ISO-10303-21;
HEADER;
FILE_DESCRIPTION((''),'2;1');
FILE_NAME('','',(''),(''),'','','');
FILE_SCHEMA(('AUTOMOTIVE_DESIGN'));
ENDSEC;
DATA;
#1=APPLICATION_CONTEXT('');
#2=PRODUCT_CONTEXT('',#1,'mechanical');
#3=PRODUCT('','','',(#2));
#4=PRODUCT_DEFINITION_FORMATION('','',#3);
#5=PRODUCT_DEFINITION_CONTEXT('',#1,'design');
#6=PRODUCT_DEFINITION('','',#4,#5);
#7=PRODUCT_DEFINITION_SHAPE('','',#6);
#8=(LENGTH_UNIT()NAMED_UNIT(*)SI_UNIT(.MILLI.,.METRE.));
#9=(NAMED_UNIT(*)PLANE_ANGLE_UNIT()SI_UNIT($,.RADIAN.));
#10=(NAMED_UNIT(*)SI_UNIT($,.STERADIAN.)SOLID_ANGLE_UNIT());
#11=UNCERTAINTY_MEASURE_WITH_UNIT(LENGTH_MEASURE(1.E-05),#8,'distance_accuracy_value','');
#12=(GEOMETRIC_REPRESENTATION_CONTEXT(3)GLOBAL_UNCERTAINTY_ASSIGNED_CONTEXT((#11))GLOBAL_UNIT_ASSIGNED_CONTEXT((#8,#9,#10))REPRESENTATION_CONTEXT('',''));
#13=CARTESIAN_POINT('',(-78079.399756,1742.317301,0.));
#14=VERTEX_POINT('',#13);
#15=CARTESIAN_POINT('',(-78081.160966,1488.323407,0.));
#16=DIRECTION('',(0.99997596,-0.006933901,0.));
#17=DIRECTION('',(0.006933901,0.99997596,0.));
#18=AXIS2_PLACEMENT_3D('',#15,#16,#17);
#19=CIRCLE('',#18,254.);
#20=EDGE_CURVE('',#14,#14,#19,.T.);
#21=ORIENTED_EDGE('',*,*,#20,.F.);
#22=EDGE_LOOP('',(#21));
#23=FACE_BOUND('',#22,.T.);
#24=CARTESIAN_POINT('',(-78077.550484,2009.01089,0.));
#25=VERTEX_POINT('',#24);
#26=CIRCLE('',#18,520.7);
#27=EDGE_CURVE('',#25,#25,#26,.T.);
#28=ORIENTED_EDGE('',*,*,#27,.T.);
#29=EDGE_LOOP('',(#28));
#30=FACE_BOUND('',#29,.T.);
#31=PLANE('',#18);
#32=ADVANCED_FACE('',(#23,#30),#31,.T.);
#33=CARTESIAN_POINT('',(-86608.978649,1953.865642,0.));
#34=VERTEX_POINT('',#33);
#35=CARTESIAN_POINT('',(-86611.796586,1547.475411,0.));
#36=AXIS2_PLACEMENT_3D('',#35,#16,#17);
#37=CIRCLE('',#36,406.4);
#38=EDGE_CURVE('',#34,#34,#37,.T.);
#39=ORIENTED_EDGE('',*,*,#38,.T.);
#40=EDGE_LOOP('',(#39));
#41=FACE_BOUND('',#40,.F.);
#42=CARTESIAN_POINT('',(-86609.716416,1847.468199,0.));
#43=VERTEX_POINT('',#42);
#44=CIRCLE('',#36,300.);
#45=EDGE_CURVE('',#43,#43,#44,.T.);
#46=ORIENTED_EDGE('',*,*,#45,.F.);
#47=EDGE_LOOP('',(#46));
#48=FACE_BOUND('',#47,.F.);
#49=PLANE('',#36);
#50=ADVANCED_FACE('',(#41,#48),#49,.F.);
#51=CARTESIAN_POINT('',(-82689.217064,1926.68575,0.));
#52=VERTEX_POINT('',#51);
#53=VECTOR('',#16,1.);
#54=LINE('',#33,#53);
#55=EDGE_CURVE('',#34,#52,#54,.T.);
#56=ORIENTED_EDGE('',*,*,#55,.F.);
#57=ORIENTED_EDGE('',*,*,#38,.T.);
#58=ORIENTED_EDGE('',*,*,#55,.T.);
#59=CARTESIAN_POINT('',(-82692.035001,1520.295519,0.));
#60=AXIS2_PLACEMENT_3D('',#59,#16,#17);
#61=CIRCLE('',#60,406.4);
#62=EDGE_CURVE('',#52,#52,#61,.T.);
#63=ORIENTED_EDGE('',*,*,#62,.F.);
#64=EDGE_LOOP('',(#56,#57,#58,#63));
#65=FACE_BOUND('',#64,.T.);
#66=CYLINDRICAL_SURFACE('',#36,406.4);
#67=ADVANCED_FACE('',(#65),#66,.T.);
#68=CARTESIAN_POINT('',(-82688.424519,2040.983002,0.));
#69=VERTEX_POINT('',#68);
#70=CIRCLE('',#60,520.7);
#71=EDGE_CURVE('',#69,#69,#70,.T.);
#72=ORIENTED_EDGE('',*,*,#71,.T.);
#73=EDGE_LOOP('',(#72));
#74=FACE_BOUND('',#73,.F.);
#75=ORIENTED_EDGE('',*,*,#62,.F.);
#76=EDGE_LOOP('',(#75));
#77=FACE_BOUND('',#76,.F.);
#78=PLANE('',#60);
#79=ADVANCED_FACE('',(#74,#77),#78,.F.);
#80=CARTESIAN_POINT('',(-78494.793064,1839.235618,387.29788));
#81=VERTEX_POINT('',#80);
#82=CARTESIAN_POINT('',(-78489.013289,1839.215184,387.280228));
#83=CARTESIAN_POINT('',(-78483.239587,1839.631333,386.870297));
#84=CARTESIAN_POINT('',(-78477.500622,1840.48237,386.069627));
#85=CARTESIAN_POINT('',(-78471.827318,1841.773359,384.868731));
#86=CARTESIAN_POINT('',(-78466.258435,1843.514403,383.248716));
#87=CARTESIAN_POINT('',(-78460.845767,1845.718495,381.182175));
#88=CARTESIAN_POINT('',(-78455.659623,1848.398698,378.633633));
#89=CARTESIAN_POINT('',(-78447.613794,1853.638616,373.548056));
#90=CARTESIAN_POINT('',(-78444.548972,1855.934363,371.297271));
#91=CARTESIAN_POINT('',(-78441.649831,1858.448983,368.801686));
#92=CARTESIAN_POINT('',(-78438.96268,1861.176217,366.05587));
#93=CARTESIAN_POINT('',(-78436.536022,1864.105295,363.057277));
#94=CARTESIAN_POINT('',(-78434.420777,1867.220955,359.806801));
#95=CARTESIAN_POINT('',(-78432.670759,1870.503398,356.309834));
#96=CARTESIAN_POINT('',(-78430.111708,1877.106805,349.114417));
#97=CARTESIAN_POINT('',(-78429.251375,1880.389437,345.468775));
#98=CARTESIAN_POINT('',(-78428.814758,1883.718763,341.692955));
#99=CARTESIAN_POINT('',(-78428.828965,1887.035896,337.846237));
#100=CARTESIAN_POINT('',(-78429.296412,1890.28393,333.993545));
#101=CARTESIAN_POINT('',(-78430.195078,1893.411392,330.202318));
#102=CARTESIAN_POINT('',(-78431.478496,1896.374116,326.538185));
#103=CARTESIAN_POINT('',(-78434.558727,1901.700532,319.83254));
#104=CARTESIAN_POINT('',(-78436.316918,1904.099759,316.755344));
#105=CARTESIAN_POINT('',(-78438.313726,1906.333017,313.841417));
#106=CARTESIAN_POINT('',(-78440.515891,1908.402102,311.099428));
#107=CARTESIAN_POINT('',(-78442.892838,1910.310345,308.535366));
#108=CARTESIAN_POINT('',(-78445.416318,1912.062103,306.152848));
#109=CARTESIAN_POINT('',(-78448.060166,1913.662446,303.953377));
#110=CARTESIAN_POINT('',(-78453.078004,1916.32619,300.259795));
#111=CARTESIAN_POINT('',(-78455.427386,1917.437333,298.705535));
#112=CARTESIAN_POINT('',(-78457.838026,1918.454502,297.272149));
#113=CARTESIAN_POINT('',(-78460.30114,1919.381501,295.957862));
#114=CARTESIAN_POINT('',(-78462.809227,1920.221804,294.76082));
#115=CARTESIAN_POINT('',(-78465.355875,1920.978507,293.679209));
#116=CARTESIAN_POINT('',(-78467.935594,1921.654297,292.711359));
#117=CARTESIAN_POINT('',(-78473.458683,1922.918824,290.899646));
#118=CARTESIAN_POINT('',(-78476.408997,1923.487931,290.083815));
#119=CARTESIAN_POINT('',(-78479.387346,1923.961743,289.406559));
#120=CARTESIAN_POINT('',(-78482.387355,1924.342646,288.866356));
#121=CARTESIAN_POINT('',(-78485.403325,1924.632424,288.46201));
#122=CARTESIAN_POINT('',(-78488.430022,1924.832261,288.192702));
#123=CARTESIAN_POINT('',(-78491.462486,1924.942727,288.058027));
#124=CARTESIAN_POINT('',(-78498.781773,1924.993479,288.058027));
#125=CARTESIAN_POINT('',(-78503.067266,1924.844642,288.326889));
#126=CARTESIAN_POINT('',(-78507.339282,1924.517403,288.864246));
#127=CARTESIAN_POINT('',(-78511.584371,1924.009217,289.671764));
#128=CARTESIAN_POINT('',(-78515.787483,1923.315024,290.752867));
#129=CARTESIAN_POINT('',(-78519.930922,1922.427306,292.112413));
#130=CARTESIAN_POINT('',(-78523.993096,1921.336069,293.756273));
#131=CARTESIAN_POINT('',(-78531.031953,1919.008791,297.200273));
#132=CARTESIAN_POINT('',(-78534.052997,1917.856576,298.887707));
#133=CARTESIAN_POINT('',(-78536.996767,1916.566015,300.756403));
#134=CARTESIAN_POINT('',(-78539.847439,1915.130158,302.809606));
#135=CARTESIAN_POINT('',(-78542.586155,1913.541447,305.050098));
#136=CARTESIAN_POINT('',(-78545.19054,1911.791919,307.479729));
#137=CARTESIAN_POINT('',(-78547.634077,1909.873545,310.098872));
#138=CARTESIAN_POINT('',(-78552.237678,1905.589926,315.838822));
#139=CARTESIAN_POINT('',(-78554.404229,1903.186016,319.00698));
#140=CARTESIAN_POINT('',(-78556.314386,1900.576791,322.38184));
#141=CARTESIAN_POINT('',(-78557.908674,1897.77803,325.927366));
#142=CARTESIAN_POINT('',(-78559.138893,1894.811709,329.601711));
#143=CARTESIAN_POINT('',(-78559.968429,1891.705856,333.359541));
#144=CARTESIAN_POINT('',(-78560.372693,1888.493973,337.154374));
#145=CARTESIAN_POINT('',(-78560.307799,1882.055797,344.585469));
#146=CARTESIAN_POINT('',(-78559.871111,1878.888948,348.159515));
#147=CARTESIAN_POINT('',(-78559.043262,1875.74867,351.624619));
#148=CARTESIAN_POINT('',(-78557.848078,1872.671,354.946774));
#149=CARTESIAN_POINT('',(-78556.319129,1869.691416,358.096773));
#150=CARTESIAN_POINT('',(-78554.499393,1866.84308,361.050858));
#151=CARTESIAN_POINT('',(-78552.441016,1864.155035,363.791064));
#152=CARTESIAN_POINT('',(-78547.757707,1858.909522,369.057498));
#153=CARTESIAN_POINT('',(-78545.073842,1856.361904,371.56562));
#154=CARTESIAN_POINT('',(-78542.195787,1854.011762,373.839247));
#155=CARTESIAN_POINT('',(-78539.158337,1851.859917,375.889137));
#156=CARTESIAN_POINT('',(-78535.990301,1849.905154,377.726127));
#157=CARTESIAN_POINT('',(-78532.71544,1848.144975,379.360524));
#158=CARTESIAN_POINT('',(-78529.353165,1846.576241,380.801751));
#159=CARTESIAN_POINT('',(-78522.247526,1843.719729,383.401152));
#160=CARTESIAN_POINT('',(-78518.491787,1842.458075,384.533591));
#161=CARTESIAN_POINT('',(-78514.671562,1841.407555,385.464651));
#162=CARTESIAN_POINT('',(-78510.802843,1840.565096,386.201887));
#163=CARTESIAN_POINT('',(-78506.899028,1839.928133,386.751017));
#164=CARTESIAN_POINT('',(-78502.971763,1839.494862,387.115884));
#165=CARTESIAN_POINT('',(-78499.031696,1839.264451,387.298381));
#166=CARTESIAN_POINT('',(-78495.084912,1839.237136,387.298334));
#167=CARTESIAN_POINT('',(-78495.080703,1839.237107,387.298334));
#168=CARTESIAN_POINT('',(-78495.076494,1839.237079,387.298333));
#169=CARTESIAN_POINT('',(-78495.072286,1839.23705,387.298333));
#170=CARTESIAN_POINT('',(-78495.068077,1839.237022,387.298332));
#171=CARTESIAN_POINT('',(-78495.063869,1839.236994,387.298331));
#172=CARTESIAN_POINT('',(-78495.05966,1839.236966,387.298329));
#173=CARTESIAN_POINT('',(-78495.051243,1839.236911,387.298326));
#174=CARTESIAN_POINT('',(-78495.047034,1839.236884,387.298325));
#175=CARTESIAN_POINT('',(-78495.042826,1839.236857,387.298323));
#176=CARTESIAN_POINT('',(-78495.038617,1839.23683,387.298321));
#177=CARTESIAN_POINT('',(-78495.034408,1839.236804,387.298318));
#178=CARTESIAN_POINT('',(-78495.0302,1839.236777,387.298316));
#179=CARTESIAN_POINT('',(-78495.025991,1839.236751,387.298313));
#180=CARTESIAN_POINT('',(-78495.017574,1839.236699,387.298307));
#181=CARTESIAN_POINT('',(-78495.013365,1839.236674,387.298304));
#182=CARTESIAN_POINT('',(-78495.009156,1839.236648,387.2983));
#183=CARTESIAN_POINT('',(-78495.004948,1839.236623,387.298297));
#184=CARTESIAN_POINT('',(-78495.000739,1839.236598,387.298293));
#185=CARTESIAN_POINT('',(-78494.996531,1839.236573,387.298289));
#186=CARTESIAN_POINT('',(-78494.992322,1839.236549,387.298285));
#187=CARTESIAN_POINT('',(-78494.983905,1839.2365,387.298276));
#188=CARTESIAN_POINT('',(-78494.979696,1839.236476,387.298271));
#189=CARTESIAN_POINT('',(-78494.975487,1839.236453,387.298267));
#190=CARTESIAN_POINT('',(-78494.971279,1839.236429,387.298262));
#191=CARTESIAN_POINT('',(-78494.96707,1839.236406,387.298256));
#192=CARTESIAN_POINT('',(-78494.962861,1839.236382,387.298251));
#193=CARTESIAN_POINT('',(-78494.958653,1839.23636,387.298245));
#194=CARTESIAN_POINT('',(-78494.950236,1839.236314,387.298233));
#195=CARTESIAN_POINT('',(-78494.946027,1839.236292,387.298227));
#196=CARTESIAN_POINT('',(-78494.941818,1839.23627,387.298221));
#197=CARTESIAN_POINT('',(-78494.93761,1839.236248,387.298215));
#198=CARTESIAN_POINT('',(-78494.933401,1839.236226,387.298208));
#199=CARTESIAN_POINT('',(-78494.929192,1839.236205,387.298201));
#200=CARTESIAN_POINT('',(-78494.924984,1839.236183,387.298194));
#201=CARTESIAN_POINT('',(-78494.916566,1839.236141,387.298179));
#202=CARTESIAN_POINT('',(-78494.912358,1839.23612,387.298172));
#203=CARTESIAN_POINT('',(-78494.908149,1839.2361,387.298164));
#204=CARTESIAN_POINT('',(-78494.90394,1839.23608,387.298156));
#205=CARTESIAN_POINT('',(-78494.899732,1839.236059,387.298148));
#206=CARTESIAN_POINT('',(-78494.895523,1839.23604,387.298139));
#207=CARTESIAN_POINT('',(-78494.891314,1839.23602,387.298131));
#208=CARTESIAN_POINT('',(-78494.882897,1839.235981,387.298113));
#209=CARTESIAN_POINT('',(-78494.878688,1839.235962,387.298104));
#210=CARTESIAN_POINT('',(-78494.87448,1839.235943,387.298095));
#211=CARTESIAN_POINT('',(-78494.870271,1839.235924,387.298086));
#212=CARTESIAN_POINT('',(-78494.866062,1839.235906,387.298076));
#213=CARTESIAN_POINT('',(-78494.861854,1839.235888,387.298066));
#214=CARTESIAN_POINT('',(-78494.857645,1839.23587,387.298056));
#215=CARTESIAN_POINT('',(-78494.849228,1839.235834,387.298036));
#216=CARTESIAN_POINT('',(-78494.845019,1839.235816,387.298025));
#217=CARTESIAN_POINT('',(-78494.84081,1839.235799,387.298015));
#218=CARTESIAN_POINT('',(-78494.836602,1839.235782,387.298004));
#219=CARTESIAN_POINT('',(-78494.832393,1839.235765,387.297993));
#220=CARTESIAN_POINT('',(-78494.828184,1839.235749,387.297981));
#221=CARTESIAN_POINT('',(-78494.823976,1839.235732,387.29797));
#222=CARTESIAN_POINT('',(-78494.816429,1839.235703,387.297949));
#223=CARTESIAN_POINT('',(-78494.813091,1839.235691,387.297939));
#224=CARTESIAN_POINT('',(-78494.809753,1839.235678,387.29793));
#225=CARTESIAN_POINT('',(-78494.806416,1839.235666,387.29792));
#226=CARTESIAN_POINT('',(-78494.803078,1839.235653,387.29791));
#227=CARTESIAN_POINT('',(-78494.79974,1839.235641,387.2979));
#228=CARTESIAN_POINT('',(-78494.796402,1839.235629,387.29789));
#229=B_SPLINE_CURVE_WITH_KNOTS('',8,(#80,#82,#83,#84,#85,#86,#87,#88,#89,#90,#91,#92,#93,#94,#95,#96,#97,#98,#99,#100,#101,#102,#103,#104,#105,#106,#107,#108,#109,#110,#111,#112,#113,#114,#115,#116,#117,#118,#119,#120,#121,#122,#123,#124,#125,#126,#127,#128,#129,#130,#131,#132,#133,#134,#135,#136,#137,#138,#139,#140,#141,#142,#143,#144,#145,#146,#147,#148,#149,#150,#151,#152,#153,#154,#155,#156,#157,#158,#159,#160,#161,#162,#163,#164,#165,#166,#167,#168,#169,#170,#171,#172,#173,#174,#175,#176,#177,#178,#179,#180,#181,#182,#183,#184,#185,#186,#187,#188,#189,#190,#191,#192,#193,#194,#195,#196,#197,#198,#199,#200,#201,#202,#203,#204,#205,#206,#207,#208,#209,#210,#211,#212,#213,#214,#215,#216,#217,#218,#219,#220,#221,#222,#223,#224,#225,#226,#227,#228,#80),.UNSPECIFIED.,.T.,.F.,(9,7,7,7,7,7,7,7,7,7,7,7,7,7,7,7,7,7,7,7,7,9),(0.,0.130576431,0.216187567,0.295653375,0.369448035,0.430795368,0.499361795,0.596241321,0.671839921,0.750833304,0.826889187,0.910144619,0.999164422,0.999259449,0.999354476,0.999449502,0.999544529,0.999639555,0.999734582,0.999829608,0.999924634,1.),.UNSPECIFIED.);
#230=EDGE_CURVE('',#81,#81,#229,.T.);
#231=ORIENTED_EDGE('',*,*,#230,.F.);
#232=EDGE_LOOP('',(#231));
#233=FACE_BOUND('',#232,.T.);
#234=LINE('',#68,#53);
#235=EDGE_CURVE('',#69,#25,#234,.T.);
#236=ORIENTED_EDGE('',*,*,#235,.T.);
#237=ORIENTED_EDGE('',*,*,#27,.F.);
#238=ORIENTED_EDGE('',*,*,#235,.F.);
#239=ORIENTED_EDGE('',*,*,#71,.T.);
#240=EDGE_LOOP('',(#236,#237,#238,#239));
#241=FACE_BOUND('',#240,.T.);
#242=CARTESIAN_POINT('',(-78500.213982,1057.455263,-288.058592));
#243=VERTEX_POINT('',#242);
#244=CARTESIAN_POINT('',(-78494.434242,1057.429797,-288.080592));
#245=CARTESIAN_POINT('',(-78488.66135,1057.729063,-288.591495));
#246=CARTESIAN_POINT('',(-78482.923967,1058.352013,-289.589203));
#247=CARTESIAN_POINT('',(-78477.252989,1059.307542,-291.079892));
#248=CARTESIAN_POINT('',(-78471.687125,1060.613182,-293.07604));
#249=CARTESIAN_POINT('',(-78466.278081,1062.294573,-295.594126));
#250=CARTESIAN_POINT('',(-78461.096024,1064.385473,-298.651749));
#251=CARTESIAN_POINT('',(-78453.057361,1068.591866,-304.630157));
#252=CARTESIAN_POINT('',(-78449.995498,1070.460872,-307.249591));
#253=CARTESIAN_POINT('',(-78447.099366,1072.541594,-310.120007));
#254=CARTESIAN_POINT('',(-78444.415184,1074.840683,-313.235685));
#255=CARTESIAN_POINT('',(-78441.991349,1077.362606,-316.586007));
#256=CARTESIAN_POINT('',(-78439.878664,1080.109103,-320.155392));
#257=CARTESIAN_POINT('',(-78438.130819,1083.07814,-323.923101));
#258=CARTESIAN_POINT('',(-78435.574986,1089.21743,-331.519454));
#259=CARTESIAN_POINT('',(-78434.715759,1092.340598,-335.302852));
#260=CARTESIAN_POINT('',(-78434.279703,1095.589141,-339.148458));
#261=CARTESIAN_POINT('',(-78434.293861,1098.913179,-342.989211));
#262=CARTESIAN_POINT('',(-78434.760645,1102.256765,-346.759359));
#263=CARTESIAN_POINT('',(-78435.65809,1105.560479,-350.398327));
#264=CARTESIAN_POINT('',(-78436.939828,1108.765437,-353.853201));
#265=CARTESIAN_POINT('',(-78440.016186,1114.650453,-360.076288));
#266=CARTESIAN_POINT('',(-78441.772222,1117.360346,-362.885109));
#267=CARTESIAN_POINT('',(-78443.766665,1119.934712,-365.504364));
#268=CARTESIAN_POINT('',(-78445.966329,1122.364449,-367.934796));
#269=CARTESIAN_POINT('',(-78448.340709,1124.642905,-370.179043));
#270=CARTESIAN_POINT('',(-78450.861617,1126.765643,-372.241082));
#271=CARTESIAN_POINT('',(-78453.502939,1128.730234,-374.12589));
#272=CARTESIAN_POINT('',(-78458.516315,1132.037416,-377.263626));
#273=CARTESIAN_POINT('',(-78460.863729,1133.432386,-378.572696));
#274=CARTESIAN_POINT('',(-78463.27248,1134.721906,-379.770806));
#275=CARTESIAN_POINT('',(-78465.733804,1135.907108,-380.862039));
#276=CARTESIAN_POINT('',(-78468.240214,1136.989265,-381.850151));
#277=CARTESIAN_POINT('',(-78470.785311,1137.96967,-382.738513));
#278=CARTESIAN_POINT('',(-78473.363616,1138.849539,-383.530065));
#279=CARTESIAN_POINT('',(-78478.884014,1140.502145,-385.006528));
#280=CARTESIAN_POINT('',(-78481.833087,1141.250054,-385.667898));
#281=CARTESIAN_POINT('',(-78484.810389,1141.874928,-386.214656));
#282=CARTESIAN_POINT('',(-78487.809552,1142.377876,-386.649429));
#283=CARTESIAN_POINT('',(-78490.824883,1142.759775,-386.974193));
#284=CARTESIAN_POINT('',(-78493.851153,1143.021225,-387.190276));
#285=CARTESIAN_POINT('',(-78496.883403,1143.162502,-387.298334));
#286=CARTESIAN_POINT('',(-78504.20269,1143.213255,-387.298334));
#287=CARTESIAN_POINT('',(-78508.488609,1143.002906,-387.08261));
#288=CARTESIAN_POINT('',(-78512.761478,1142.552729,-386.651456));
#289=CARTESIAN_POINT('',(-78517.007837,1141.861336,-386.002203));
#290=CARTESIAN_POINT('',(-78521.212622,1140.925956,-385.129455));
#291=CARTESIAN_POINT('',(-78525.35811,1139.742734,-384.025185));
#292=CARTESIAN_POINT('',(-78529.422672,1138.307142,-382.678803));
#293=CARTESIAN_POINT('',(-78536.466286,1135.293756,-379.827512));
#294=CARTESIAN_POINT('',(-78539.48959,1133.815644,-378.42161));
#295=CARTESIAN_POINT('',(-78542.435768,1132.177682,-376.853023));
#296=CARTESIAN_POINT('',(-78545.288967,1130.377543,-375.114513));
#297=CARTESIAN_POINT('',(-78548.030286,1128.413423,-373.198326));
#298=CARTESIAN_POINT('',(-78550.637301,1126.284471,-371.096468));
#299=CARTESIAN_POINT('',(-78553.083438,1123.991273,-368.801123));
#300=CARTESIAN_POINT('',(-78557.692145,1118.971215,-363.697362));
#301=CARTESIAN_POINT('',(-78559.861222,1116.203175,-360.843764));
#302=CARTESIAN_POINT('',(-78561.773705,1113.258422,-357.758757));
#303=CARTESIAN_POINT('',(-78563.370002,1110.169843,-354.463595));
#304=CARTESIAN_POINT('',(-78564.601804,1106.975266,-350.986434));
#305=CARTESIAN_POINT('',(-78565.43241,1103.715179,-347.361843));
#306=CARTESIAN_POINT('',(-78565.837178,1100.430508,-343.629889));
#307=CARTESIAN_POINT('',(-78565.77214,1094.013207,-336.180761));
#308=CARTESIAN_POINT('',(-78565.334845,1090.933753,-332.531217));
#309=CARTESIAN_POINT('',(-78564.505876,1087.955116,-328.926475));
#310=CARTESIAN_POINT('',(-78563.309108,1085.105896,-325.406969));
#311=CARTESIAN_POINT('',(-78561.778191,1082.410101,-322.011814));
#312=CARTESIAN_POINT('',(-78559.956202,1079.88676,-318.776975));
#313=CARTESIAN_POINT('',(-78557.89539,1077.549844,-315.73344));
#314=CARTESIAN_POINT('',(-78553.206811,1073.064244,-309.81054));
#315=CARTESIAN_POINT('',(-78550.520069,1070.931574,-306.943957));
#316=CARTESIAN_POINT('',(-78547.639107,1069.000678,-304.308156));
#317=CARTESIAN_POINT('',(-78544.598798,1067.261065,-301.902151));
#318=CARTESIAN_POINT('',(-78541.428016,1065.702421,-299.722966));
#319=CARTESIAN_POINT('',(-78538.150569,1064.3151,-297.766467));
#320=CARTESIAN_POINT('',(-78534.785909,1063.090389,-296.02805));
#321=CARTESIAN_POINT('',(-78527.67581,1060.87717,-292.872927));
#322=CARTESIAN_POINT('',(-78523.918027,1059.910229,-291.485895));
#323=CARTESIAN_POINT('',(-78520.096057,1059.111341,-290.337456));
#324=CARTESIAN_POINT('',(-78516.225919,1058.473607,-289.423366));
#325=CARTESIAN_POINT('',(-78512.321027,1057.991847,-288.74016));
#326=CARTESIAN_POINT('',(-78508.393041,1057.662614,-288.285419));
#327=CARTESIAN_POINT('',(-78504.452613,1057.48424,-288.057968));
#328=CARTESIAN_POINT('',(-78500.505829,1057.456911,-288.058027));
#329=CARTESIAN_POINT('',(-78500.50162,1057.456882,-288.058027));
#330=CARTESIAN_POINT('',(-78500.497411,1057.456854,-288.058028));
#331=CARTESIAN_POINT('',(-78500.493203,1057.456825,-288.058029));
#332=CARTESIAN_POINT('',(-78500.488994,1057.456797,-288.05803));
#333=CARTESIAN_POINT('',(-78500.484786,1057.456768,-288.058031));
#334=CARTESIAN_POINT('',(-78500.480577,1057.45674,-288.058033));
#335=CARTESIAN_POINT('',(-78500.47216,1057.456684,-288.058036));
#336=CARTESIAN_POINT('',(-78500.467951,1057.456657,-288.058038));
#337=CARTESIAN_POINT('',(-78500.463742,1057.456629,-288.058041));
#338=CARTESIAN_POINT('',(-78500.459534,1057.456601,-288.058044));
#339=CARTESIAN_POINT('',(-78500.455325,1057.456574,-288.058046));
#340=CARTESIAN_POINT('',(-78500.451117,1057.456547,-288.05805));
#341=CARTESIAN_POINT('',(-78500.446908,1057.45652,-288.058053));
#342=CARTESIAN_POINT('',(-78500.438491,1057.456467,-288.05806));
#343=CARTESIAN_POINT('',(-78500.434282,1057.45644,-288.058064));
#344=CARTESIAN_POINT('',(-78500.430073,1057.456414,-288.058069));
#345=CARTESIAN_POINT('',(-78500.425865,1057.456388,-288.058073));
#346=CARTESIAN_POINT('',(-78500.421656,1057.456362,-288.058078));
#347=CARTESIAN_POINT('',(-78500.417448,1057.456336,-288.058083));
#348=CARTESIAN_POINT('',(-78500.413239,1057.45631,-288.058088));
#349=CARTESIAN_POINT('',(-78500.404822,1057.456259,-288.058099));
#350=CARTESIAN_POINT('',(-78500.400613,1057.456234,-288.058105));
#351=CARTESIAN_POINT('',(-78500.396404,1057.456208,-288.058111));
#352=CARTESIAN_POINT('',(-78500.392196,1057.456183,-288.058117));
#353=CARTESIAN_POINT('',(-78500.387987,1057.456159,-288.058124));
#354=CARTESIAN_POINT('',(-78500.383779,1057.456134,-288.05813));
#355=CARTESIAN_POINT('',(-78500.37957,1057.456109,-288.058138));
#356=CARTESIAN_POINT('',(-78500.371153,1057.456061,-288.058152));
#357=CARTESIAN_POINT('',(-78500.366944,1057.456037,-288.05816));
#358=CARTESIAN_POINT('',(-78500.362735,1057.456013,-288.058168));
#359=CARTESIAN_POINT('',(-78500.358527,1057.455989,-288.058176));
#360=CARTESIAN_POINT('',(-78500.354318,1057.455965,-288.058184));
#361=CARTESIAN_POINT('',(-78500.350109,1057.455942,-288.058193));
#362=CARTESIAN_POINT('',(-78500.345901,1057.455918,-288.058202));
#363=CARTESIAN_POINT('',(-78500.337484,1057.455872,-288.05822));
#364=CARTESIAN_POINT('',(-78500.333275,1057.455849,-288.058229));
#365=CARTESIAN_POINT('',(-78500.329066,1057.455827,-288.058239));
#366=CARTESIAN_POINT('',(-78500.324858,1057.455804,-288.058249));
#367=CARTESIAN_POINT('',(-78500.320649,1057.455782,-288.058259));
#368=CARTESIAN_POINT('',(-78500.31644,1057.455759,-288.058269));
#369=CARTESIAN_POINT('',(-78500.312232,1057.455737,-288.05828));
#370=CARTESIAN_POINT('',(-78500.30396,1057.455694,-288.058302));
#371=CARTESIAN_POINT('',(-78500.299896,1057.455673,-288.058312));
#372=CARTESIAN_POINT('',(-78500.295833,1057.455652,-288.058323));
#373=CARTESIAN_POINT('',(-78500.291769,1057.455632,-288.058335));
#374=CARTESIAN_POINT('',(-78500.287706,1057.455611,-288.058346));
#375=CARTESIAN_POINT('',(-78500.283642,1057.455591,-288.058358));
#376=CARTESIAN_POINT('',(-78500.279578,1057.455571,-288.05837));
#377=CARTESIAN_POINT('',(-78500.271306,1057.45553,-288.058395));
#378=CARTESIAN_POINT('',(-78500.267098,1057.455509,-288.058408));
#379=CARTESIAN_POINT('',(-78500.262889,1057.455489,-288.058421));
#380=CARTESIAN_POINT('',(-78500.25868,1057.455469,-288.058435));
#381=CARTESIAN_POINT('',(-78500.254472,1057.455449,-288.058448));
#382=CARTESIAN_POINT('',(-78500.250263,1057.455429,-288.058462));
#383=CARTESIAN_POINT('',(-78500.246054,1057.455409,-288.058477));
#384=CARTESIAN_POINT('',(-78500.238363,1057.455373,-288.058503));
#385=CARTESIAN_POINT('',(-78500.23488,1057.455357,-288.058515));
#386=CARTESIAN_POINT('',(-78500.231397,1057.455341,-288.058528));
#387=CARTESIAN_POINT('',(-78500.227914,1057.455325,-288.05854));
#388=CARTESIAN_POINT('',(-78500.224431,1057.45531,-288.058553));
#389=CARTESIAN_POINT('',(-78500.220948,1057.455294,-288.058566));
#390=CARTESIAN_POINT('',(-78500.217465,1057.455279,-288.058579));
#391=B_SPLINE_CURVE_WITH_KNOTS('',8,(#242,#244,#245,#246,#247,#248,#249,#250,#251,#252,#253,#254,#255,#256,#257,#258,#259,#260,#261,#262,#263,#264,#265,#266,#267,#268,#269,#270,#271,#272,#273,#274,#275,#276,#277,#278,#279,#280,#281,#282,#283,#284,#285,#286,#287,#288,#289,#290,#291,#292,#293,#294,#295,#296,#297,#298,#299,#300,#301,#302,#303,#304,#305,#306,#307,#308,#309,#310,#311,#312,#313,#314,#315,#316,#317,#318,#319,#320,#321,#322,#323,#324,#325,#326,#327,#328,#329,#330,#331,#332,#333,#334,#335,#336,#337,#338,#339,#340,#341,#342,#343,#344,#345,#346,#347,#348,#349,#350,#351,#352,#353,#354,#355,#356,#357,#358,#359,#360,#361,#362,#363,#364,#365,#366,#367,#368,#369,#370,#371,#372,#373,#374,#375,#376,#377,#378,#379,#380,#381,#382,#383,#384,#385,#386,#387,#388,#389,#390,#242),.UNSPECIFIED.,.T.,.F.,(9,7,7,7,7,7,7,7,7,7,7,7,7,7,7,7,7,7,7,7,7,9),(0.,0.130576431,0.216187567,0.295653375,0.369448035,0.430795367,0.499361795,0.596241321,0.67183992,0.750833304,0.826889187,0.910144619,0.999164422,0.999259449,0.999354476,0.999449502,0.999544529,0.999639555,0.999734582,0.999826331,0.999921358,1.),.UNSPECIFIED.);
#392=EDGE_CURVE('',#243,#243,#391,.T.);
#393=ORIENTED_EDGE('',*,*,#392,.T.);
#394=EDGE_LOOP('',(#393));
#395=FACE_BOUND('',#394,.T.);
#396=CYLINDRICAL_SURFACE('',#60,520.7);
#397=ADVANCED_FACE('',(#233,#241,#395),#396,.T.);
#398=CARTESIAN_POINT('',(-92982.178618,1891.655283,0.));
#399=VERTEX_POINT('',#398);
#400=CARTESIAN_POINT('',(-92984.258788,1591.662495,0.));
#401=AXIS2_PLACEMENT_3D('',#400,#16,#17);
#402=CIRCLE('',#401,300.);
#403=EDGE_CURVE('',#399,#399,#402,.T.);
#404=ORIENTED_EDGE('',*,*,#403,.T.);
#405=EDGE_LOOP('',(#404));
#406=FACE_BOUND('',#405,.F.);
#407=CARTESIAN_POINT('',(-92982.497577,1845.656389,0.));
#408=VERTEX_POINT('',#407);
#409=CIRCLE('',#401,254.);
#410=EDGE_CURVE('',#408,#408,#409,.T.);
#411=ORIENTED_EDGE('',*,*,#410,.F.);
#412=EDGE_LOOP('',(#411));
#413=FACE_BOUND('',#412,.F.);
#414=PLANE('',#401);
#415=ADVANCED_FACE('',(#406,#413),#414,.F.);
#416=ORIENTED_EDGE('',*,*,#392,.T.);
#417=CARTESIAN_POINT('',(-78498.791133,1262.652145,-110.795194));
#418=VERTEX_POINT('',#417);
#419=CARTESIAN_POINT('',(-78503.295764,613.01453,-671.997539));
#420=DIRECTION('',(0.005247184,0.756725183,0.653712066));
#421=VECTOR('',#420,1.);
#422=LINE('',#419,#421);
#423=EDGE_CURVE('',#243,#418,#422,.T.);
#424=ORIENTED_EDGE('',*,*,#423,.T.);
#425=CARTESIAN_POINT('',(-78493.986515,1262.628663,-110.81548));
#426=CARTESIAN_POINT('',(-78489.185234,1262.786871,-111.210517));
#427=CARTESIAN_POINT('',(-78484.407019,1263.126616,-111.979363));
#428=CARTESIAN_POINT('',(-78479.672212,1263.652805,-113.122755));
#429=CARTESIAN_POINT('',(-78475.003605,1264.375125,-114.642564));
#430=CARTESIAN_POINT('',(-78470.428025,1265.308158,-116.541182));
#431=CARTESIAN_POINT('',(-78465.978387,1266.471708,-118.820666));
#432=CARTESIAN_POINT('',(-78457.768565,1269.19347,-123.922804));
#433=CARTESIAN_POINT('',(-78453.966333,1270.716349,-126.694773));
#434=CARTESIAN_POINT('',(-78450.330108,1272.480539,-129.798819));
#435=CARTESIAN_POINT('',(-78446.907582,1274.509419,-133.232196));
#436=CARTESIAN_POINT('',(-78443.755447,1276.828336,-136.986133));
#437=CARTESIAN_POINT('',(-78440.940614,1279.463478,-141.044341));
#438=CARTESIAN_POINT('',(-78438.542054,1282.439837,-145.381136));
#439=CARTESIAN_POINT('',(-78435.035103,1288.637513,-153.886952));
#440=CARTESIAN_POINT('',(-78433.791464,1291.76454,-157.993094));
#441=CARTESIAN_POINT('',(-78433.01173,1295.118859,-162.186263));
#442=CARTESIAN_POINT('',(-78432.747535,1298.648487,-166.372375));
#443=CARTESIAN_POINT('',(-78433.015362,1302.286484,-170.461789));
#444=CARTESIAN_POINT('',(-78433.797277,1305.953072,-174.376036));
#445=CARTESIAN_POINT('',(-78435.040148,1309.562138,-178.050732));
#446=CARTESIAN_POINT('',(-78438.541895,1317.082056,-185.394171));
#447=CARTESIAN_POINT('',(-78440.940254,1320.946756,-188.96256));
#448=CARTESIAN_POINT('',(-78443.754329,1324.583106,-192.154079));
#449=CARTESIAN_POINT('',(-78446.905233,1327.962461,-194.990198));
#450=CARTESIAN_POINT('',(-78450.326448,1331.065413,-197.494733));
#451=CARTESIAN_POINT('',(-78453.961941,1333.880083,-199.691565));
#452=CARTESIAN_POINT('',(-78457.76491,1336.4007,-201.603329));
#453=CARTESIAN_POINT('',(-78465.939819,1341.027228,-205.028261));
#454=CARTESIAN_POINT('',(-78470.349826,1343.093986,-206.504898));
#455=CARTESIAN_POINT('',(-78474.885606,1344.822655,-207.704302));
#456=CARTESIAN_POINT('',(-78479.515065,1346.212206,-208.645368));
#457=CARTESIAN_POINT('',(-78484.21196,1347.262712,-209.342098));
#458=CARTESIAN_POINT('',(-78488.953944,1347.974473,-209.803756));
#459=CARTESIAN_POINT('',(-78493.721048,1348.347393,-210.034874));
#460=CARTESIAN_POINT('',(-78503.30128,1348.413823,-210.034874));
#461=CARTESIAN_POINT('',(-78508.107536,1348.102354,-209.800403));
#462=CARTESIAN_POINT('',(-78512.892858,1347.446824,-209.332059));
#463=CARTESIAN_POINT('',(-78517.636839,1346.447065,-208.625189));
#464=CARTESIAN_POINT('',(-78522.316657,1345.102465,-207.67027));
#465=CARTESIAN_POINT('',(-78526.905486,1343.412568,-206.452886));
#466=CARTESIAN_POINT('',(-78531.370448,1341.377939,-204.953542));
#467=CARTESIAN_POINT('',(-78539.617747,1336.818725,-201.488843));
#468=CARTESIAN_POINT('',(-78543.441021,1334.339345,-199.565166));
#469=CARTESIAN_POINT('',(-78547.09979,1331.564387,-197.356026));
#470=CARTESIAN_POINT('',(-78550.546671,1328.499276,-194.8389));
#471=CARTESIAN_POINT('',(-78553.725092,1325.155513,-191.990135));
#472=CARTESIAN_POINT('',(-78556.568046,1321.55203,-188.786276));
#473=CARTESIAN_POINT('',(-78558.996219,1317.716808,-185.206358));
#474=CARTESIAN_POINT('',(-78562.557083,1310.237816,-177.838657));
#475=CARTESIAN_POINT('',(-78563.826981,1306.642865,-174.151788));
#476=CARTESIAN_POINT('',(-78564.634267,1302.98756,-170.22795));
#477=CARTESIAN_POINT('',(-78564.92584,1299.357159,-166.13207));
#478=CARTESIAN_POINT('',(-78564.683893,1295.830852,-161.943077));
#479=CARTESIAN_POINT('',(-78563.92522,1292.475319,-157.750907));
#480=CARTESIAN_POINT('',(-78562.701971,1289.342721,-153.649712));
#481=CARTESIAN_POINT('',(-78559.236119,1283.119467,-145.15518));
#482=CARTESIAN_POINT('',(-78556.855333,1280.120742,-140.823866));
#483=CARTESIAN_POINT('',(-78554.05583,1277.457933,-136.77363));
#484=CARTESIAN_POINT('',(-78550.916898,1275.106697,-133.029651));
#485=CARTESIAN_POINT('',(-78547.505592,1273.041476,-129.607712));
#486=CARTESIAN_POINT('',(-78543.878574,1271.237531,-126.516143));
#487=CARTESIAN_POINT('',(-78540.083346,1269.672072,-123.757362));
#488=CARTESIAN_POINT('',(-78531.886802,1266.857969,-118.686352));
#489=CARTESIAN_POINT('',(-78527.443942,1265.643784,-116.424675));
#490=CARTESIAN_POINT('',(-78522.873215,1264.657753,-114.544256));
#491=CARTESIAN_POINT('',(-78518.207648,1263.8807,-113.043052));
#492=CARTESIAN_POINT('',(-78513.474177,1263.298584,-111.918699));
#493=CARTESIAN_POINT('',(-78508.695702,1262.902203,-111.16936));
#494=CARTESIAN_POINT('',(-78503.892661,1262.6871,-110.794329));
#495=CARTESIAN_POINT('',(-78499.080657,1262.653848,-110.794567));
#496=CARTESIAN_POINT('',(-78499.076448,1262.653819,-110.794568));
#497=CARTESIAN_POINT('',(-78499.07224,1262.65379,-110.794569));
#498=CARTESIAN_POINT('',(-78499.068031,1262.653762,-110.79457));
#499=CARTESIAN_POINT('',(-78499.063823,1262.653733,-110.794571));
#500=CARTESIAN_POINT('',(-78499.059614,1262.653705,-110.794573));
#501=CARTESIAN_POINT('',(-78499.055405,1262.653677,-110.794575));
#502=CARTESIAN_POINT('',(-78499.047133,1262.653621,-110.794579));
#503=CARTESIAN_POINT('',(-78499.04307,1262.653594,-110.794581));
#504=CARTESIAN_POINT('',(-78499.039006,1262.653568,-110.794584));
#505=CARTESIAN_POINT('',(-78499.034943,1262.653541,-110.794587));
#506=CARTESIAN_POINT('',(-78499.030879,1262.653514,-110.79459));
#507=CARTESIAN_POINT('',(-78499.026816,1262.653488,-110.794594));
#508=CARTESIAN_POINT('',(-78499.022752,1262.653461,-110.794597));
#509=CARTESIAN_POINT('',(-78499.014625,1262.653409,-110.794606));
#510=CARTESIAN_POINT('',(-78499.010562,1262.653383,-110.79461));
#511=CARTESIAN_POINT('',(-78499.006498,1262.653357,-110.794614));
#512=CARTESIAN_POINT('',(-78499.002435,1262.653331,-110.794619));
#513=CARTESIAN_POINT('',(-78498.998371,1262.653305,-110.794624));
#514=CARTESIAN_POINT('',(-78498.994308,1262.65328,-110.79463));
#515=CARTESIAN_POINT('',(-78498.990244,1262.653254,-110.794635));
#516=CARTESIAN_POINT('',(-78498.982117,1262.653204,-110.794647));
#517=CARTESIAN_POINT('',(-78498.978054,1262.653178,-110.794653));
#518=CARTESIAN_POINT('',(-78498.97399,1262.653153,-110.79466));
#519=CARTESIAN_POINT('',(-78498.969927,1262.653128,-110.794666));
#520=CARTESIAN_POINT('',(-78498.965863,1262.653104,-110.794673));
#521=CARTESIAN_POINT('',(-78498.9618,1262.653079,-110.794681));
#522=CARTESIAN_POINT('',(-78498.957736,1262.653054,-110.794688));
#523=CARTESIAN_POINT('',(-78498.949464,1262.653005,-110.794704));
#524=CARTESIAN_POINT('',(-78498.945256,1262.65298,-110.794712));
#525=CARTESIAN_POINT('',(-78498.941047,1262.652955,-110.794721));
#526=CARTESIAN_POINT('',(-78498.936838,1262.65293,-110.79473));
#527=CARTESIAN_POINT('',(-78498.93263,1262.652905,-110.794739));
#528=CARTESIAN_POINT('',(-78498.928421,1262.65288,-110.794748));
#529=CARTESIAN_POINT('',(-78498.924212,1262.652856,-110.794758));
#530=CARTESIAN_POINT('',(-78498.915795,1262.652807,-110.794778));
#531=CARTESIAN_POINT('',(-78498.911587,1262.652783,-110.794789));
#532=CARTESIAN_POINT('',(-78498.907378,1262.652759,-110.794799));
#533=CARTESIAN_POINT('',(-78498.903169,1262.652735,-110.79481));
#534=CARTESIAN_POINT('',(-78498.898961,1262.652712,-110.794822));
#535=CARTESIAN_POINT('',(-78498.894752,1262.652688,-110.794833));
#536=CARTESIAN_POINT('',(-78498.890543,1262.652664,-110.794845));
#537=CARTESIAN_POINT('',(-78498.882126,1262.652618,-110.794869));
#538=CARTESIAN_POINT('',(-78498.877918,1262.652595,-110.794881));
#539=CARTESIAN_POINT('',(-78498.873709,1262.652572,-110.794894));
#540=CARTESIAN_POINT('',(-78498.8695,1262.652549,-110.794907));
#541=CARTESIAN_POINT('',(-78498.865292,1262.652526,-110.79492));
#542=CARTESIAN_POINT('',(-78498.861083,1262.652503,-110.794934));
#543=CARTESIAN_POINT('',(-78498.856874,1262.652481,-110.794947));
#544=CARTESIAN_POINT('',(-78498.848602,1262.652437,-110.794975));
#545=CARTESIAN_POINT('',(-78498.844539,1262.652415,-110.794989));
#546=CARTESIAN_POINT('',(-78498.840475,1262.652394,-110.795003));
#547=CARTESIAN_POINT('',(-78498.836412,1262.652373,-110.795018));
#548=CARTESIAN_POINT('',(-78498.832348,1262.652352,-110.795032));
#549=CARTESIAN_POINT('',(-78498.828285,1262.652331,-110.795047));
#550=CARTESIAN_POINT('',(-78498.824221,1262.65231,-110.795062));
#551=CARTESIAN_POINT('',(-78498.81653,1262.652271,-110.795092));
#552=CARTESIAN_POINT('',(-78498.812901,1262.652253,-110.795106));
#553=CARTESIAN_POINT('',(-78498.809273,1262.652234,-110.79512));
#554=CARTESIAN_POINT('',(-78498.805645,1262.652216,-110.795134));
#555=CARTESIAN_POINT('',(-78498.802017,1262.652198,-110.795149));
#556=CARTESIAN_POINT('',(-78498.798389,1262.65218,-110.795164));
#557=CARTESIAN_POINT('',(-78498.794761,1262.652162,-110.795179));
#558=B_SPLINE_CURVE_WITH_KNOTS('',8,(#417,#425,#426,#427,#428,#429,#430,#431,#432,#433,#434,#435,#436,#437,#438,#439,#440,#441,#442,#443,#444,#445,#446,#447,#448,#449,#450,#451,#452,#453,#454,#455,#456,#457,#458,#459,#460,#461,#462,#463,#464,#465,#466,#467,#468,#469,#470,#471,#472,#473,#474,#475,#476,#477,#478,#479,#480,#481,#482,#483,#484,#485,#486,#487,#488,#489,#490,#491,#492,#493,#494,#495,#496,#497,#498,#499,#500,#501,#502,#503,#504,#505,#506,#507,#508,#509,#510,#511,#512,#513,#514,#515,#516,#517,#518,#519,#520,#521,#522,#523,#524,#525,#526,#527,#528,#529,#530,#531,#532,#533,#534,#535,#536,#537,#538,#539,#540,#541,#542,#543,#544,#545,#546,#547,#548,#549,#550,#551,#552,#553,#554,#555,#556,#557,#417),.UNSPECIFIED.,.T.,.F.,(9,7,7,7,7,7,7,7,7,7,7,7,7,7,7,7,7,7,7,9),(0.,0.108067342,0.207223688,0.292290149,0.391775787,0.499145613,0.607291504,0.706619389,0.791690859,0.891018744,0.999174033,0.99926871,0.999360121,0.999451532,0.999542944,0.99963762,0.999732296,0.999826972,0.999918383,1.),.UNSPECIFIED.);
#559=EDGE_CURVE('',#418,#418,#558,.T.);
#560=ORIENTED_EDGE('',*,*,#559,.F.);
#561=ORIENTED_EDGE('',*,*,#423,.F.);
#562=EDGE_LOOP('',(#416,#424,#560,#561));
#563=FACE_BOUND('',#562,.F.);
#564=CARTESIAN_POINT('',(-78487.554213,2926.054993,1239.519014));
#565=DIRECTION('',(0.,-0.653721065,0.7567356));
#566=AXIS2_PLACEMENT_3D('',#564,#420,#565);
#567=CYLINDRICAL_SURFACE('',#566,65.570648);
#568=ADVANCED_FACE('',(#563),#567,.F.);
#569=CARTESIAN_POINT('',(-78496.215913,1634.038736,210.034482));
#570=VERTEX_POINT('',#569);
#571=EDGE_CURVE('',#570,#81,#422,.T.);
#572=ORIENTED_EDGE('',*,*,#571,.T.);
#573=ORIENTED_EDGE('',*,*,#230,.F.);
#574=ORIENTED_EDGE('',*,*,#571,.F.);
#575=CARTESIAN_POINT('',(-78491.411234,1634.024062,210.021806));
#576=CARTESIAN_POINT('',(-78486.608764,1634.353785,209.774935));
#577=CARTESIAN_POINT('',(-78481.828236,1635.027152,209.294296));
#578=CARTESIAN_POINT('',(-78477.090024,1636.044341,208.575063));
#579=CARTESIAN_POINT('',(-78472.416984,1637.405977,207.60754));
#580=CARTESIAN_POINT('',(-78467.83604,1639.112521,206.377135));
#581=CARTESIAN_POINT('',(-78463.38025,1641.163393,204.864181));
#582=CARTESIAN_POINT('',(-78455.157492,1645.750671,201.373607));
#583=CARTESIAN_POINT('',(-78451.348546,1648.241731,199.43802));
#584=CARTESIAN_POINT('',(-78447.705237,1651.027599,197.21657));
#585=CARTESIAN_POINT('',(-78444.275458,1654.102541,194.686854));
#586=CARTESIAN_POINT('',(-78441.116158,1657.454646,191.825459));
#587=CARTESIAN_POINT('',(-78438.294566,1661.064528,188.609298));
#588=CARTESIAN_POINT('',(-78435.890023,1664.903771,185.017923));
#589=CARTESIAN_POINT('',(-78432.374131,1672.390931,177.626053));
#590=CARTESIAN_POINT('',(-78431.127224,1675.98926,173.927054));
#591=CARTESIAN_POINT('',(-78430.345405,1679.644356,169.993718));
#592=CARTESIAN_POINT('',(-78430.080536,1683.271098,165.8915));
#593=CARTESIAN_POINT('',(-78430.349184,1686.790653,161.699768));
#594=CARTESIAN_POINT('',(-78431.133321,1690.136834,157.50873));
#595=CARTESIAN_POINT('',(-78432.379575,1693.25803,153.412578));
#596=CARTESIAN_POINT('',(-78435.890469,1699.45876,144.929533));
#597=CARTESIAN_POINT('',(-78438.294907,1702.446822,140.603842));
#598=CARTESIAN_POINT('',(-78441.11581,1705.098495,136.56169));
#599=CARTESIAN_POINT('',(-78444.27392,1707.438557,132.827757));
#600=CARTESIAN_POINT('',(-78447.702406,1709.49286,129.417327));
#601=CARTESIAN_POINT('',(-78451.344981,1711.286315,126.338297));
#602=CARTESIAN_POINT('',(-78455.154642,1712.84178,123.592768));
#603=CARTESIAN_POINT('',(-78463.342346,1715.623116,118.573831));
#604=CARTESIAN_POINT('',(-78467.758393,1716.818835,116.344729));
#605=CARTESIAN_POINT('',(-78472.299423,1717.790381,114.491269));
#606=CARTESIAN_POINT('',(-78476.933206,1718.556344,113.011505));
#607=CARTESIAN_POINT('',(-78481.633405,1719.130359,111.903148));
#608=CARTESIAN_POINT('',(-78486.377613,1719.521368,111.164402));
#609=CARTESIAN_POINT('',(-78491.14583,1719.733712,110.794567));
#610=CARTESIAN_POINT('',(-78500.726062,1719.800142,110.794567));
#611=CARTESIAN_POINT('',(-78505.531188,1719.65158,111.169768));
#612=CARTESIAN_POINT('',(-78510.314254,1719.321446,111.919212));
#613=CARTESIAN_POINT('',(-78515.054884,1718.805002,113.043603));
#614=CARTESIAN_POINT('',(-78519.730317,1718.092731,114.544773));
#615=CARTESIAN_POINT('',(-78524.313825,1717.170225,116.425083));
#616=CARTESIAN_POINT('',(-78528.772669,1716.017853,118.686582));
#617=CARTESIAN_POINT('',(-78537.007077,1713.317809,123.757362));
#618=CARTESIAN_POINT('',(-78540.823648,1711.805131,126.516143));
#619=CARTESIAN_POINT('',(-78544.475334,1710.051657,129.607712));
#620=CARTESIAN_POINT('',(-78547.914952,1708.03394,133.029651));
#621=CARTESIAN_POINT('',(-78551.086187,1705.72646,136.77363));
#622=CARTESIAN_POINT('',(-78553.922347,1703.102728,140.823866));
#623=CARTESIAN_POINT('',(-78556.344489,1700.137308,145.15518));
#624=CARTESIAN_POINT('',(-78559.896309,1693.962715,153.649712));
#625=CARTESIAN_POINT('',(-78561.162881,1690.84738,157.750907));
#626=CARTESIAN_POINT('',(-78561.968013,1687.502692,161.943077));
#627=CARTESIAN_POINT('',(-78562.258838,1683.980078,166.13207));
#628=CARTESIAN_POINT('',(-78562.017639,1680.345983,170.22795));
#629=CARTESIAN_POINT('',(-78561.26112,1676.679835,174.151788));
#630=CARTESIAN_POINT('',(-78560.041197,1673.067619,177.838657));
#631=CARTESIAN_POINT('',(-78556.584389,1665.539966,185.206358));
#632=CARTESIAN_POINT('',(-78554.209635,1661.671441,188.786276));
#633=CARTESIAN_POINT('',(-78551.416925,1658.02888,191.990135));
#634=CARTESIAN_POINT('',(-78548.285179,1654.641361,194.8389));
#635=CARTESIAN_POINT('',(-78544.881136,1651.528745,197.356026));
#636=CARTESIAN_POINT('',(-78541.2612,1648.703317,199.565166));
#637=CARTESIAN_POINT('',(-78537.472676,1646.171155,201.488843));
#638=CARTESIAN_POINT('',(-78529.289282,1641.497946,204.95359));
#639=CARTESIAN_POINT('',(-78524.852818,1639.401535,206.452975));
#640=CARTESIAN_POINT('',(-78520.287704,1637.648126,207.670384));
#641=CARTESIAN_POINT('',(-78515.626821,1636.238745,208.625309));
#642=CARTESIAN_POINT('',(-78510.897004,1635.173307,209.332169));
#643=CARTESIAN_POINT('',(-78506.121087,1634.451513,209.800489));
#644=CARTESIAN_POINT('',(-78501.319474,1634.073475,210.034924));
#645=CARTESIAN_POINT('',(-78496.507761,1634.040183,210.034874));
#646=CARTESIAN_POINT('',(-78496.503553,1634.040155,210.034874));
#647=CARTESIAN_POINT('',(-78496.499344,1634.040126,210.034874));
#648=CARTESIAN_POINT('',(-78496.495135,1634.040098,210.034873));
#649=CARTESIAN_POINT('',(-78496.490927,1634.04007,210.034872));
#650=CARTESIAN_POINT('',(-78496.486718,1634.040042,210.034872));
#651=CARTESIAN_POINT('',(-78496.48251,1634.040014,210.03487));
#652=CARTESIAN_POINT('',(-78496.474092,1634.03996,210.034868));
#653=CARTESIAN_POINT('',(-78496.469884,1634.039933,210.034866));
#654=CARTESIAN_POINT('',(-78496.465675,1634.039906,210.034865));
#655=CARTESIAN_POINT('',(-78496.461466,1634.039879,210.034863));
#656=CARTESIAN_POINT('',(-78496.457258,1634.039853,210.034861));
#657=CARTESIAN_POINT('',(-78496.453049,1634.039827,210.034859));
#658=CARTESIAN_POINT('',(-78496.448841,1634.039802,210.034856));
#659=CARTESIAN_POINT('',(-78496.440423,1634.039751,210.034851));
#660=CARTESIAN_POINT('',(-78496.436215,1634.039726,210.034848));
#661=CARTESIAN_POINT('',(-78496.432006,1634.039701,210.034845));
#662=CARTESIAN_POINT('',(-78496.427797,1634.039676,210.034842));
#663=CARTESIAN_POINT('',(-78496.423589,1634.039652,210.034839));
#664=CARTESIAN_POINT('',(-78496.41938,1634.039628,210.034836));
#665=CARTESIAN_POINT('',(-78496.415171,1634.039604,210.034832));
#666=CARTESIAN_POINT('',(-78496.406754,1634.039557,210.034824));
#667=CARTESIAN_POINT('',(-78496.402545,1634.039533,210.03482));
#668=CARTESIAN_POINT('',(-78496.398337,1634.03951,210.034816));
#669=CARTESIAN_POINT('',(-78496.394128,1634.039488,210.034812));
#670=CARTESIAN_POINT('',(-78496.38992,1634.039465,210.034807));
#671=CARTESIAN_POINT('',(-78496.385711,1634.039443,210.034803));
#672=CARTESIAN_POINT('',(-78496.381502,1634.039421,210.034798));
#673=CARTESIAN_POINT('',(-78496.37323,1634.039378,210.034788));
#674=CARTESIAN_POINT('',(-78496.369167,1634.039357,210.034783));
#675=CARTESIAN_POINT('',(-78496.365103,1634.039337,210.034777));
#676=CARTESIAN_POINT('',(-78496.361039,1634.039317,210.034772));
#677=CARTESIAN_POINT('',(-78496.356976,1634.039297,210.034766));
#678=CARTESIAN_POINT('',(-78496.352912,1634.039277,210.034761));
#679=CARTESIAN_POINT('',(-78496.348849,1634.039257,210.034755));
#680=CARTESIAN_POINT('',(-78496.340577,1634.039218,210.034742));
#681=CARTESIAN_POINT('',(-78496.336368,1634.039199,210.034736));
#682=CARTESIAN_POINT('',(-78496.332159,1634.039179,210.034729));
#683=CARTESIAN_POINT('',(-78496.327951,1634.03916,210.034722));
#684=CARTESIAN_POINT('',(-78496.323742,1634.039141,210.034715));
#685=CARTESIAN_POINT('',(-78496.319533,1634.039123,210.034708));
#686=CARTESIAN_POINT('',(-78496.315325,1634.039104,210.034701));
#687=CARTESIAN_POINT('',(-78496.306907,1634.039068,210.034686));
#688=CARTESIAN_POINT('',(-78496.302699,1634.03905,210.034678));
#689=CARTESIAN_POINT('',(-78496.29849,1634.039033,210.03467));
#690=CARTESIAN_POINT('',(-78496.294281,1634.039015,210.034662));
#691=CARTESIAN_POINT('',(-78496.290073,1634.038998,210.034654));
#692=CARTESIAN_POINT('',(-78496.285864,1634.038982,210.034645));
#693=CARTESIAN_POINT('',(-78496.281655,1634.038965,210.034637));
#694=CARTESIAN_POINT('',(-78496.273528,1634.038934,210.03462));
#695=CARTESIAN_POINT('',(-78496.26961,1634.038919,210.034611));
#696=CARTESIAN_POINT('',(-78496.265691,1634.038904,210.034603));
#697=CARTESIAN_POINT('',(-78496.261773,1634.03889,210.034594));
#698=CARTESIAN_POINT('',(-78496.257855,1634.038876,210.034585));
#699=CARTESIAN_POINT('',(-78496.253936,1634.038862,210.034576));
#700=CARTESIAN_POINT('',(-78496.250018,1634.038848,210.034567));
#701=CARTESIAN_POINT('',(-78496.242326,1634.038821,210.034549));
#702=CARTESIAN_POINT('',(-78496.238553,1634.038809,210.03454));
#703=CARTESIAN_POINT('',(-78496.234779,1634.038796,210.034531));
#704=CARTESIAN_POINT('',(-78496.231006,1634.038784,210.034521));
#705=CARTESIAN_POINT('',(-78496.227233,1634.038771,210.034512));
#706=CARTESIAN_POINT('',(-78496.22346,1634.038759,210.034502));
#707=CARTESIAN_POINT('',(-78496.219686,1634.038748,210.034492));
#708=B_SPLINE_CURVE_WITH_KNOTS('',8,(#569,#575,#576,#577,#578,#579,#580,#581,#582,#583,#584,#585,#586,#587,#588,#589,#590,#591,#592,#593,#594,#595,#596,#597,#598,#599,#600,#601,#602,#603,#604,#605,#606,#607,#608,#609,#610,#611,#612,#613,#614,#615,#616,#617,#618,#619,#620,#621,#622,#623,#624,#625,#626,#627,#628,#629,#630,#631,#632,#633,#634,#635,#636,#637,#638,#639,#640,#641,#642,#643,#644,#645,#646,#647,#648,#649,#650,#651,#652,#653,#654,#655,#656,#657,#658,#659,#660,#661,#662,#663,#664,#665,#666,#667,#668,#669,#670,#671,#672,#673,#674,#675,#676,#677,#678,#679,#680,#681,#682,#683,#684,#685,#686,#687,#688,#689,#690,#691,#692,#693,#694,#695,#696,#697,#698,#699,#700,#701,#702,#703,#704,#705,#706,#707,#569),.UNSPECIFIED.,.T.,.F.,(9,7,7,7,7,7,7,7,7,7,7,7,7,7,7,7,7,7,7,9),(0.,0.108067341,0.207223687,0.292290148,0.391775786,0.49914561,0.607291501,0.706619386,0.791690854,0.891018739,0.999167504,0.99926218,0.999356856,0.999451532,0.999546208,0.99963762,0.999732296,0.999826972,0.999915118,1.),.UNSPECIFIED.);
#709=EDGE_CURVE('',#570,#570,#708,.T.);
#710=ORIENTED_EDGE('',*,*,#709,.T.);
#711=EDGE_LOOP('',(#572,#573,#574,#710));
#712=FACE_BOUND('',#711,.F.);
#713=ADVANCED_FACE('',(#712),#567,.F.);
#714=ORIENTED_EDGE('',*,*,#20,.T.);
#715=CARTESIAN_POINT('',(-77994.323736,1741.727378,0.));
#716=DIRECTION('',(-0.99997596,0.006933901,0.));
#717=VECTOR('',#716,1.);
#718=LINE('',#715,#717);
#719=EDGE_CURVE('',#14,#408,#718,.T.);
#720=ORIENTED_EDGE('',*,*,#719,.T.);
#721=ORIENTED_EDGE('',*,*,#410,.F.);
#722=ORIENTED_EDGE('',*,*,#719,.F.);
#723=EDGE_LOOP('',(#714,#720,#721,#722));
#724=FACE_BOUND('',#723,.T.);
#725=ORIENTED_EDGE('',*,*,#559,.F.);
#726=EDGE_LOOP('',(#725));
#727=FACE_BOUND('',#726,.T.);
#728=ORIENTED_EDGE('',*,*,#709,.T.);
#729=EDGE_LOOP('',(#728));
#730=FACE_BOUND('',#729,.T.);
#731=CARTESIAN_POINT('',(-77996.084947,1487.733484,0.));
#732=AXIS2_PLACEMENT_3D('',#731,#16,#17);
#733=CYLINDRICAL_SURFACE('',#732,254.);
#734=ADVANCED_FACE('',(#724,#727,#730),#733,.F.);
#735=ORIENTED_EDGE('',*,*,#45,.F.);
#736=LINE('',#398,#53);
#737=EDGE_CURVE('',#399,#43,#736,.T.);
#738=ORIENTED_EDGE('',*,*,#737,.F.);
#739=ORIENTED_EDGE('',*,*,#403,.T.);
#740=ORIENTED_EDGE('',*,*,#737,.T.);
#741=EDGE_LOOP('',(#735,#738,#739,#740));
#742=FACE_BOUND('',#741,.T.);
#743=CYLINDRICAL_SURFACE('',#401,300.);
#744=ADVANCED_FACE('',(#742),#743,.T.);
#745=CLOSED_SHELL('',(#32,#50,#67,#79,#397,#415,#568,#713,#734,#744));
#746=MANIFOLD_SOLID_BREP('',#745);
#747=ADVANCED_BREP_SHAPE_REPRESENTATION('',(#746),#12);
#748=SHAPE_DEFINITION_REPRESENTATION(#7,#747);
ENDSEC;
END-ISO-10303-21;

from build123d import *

# Parameters (mm, degrees)
SWEEP1_PROFILE_R        = 300
SWEEP2_PROFILE_R        = 406.4
SWEEP3_PROFILE_R        = 520.7
SKETCH96_R              = 65.57064834
CUT_EXTRUDE1_DEPTH      = 3000
CUT_EXTRUDE2_DEPTH      = 14988.534162474
CUT_EXTRUDE2_DEPTH_BACK = 14988.534162474
SKETCH97_R              = 254


with BuildPart() as part:
    # Sweep1: sweep along a path in Sketch1
    with BuildLine(Plane.XY) as sweep1_path:
        Line((-92984.258788215, 1591.662495116), (-78081.160966393, 1488.323407048))
    # Sweep1 profile (on start of the path) → Sweep1 (sweep)
    with BuildSketch(Plane(origin=(-92984.258788215, 1591.662495116, 0), x_dir=(0.00693390092814686, 0.9999759602200039, 0), z_dir=(0.9999759602200039, -0.00693390092814686, 0))):
        Circle(SWEEP1_PROFILE_R)
    sweep(path=sweep1_path.line)

    # Sweep2: sweep along a path in Sketch18
    with BuildLine(Plane.XY) as sweep2_path:
        Line((-86611.796586025, 1547.47541129), (-78081.160966393, 1488.323407048))
    # Sweep2 profile (on start of the path) → Sweep2 (sweep)
    with BuildSketch(Plane(origin=(-86611.796586025, 1547.47541129, 0), x_dir=(0.006933900928146876, 0.9999759602200038, 0), z_dir=(0.9999759602200038, -0.006933900928146876, 0))):
        Circle(SWEEP2_PROFILE_R)
    sweep(path=sweep2_path.line)

    # Sweep3: sweep along a path in Sketch79
    with BuildLine(Plane.XY) as sweep3_path:
        Line((-82692.035001146, 1520.2955194), (-78081.160966393, 1488.323407048))
    # Sweep3 profile (on start of the path) → Sweep3 (sweep)
    with BuildSketch(Plane(origin=(-82692.035001146, 1520.2955194, 0), x_dir=(0.006933900928146895, 0.9999759602200038, 0), z_dir=(0.9999759602200038, -0.006933900928146895, 0))):
        Circle(SWEEP3_PROFILE_R)
    sweep(path=sweep3_path.line)

    # Sketch96 → Cut-Extrude1 (cut, symmetric)
    with BuildSketch(Plane(origin=(-1329.649342872, 16090.326379674, -14618.529062171), x_dir=(0.9606474516301055, 0.17774002711559994, -0.21345949601160855), z_dir=(0.005247183588808439, 0.7567251828430883, 0.6537120656034123))):
        with Locations(Location((-79846.413589942, 1633.478101155, 0), (0, 0, 253.875539532))):
            Circle(SKETCH96_R)
    extrude(amount=CUT_EXTRUDE1_DEPTH, both=True, mode=Mode.SUBTRACT)

    # Sketch97 → Cut-Extrude2 (cut, two sides: drawn at the far end of the back side and taken through both)
    with BuildSketch(Plane(origin=(-92990.824364442, 644.804664332, 0), x_dir=(0, 0, 1), z_dir=(-0.9999759602200039, 0.0069339009281468664, 0)).offset(-CUT_EXTRUDE2_DEPTH_BACK)):
        with Locations(Location((0, 946.880593585, 0), (0, 0, 90))):
            Circle(SKETCH97_R)
    extrude(amount=CUT_EXTRUDE2_DEPTH + CUT_EXTRUDE2_DEPTH_BACK, mode=Mode.SUBTRACT)


solid = part.part
